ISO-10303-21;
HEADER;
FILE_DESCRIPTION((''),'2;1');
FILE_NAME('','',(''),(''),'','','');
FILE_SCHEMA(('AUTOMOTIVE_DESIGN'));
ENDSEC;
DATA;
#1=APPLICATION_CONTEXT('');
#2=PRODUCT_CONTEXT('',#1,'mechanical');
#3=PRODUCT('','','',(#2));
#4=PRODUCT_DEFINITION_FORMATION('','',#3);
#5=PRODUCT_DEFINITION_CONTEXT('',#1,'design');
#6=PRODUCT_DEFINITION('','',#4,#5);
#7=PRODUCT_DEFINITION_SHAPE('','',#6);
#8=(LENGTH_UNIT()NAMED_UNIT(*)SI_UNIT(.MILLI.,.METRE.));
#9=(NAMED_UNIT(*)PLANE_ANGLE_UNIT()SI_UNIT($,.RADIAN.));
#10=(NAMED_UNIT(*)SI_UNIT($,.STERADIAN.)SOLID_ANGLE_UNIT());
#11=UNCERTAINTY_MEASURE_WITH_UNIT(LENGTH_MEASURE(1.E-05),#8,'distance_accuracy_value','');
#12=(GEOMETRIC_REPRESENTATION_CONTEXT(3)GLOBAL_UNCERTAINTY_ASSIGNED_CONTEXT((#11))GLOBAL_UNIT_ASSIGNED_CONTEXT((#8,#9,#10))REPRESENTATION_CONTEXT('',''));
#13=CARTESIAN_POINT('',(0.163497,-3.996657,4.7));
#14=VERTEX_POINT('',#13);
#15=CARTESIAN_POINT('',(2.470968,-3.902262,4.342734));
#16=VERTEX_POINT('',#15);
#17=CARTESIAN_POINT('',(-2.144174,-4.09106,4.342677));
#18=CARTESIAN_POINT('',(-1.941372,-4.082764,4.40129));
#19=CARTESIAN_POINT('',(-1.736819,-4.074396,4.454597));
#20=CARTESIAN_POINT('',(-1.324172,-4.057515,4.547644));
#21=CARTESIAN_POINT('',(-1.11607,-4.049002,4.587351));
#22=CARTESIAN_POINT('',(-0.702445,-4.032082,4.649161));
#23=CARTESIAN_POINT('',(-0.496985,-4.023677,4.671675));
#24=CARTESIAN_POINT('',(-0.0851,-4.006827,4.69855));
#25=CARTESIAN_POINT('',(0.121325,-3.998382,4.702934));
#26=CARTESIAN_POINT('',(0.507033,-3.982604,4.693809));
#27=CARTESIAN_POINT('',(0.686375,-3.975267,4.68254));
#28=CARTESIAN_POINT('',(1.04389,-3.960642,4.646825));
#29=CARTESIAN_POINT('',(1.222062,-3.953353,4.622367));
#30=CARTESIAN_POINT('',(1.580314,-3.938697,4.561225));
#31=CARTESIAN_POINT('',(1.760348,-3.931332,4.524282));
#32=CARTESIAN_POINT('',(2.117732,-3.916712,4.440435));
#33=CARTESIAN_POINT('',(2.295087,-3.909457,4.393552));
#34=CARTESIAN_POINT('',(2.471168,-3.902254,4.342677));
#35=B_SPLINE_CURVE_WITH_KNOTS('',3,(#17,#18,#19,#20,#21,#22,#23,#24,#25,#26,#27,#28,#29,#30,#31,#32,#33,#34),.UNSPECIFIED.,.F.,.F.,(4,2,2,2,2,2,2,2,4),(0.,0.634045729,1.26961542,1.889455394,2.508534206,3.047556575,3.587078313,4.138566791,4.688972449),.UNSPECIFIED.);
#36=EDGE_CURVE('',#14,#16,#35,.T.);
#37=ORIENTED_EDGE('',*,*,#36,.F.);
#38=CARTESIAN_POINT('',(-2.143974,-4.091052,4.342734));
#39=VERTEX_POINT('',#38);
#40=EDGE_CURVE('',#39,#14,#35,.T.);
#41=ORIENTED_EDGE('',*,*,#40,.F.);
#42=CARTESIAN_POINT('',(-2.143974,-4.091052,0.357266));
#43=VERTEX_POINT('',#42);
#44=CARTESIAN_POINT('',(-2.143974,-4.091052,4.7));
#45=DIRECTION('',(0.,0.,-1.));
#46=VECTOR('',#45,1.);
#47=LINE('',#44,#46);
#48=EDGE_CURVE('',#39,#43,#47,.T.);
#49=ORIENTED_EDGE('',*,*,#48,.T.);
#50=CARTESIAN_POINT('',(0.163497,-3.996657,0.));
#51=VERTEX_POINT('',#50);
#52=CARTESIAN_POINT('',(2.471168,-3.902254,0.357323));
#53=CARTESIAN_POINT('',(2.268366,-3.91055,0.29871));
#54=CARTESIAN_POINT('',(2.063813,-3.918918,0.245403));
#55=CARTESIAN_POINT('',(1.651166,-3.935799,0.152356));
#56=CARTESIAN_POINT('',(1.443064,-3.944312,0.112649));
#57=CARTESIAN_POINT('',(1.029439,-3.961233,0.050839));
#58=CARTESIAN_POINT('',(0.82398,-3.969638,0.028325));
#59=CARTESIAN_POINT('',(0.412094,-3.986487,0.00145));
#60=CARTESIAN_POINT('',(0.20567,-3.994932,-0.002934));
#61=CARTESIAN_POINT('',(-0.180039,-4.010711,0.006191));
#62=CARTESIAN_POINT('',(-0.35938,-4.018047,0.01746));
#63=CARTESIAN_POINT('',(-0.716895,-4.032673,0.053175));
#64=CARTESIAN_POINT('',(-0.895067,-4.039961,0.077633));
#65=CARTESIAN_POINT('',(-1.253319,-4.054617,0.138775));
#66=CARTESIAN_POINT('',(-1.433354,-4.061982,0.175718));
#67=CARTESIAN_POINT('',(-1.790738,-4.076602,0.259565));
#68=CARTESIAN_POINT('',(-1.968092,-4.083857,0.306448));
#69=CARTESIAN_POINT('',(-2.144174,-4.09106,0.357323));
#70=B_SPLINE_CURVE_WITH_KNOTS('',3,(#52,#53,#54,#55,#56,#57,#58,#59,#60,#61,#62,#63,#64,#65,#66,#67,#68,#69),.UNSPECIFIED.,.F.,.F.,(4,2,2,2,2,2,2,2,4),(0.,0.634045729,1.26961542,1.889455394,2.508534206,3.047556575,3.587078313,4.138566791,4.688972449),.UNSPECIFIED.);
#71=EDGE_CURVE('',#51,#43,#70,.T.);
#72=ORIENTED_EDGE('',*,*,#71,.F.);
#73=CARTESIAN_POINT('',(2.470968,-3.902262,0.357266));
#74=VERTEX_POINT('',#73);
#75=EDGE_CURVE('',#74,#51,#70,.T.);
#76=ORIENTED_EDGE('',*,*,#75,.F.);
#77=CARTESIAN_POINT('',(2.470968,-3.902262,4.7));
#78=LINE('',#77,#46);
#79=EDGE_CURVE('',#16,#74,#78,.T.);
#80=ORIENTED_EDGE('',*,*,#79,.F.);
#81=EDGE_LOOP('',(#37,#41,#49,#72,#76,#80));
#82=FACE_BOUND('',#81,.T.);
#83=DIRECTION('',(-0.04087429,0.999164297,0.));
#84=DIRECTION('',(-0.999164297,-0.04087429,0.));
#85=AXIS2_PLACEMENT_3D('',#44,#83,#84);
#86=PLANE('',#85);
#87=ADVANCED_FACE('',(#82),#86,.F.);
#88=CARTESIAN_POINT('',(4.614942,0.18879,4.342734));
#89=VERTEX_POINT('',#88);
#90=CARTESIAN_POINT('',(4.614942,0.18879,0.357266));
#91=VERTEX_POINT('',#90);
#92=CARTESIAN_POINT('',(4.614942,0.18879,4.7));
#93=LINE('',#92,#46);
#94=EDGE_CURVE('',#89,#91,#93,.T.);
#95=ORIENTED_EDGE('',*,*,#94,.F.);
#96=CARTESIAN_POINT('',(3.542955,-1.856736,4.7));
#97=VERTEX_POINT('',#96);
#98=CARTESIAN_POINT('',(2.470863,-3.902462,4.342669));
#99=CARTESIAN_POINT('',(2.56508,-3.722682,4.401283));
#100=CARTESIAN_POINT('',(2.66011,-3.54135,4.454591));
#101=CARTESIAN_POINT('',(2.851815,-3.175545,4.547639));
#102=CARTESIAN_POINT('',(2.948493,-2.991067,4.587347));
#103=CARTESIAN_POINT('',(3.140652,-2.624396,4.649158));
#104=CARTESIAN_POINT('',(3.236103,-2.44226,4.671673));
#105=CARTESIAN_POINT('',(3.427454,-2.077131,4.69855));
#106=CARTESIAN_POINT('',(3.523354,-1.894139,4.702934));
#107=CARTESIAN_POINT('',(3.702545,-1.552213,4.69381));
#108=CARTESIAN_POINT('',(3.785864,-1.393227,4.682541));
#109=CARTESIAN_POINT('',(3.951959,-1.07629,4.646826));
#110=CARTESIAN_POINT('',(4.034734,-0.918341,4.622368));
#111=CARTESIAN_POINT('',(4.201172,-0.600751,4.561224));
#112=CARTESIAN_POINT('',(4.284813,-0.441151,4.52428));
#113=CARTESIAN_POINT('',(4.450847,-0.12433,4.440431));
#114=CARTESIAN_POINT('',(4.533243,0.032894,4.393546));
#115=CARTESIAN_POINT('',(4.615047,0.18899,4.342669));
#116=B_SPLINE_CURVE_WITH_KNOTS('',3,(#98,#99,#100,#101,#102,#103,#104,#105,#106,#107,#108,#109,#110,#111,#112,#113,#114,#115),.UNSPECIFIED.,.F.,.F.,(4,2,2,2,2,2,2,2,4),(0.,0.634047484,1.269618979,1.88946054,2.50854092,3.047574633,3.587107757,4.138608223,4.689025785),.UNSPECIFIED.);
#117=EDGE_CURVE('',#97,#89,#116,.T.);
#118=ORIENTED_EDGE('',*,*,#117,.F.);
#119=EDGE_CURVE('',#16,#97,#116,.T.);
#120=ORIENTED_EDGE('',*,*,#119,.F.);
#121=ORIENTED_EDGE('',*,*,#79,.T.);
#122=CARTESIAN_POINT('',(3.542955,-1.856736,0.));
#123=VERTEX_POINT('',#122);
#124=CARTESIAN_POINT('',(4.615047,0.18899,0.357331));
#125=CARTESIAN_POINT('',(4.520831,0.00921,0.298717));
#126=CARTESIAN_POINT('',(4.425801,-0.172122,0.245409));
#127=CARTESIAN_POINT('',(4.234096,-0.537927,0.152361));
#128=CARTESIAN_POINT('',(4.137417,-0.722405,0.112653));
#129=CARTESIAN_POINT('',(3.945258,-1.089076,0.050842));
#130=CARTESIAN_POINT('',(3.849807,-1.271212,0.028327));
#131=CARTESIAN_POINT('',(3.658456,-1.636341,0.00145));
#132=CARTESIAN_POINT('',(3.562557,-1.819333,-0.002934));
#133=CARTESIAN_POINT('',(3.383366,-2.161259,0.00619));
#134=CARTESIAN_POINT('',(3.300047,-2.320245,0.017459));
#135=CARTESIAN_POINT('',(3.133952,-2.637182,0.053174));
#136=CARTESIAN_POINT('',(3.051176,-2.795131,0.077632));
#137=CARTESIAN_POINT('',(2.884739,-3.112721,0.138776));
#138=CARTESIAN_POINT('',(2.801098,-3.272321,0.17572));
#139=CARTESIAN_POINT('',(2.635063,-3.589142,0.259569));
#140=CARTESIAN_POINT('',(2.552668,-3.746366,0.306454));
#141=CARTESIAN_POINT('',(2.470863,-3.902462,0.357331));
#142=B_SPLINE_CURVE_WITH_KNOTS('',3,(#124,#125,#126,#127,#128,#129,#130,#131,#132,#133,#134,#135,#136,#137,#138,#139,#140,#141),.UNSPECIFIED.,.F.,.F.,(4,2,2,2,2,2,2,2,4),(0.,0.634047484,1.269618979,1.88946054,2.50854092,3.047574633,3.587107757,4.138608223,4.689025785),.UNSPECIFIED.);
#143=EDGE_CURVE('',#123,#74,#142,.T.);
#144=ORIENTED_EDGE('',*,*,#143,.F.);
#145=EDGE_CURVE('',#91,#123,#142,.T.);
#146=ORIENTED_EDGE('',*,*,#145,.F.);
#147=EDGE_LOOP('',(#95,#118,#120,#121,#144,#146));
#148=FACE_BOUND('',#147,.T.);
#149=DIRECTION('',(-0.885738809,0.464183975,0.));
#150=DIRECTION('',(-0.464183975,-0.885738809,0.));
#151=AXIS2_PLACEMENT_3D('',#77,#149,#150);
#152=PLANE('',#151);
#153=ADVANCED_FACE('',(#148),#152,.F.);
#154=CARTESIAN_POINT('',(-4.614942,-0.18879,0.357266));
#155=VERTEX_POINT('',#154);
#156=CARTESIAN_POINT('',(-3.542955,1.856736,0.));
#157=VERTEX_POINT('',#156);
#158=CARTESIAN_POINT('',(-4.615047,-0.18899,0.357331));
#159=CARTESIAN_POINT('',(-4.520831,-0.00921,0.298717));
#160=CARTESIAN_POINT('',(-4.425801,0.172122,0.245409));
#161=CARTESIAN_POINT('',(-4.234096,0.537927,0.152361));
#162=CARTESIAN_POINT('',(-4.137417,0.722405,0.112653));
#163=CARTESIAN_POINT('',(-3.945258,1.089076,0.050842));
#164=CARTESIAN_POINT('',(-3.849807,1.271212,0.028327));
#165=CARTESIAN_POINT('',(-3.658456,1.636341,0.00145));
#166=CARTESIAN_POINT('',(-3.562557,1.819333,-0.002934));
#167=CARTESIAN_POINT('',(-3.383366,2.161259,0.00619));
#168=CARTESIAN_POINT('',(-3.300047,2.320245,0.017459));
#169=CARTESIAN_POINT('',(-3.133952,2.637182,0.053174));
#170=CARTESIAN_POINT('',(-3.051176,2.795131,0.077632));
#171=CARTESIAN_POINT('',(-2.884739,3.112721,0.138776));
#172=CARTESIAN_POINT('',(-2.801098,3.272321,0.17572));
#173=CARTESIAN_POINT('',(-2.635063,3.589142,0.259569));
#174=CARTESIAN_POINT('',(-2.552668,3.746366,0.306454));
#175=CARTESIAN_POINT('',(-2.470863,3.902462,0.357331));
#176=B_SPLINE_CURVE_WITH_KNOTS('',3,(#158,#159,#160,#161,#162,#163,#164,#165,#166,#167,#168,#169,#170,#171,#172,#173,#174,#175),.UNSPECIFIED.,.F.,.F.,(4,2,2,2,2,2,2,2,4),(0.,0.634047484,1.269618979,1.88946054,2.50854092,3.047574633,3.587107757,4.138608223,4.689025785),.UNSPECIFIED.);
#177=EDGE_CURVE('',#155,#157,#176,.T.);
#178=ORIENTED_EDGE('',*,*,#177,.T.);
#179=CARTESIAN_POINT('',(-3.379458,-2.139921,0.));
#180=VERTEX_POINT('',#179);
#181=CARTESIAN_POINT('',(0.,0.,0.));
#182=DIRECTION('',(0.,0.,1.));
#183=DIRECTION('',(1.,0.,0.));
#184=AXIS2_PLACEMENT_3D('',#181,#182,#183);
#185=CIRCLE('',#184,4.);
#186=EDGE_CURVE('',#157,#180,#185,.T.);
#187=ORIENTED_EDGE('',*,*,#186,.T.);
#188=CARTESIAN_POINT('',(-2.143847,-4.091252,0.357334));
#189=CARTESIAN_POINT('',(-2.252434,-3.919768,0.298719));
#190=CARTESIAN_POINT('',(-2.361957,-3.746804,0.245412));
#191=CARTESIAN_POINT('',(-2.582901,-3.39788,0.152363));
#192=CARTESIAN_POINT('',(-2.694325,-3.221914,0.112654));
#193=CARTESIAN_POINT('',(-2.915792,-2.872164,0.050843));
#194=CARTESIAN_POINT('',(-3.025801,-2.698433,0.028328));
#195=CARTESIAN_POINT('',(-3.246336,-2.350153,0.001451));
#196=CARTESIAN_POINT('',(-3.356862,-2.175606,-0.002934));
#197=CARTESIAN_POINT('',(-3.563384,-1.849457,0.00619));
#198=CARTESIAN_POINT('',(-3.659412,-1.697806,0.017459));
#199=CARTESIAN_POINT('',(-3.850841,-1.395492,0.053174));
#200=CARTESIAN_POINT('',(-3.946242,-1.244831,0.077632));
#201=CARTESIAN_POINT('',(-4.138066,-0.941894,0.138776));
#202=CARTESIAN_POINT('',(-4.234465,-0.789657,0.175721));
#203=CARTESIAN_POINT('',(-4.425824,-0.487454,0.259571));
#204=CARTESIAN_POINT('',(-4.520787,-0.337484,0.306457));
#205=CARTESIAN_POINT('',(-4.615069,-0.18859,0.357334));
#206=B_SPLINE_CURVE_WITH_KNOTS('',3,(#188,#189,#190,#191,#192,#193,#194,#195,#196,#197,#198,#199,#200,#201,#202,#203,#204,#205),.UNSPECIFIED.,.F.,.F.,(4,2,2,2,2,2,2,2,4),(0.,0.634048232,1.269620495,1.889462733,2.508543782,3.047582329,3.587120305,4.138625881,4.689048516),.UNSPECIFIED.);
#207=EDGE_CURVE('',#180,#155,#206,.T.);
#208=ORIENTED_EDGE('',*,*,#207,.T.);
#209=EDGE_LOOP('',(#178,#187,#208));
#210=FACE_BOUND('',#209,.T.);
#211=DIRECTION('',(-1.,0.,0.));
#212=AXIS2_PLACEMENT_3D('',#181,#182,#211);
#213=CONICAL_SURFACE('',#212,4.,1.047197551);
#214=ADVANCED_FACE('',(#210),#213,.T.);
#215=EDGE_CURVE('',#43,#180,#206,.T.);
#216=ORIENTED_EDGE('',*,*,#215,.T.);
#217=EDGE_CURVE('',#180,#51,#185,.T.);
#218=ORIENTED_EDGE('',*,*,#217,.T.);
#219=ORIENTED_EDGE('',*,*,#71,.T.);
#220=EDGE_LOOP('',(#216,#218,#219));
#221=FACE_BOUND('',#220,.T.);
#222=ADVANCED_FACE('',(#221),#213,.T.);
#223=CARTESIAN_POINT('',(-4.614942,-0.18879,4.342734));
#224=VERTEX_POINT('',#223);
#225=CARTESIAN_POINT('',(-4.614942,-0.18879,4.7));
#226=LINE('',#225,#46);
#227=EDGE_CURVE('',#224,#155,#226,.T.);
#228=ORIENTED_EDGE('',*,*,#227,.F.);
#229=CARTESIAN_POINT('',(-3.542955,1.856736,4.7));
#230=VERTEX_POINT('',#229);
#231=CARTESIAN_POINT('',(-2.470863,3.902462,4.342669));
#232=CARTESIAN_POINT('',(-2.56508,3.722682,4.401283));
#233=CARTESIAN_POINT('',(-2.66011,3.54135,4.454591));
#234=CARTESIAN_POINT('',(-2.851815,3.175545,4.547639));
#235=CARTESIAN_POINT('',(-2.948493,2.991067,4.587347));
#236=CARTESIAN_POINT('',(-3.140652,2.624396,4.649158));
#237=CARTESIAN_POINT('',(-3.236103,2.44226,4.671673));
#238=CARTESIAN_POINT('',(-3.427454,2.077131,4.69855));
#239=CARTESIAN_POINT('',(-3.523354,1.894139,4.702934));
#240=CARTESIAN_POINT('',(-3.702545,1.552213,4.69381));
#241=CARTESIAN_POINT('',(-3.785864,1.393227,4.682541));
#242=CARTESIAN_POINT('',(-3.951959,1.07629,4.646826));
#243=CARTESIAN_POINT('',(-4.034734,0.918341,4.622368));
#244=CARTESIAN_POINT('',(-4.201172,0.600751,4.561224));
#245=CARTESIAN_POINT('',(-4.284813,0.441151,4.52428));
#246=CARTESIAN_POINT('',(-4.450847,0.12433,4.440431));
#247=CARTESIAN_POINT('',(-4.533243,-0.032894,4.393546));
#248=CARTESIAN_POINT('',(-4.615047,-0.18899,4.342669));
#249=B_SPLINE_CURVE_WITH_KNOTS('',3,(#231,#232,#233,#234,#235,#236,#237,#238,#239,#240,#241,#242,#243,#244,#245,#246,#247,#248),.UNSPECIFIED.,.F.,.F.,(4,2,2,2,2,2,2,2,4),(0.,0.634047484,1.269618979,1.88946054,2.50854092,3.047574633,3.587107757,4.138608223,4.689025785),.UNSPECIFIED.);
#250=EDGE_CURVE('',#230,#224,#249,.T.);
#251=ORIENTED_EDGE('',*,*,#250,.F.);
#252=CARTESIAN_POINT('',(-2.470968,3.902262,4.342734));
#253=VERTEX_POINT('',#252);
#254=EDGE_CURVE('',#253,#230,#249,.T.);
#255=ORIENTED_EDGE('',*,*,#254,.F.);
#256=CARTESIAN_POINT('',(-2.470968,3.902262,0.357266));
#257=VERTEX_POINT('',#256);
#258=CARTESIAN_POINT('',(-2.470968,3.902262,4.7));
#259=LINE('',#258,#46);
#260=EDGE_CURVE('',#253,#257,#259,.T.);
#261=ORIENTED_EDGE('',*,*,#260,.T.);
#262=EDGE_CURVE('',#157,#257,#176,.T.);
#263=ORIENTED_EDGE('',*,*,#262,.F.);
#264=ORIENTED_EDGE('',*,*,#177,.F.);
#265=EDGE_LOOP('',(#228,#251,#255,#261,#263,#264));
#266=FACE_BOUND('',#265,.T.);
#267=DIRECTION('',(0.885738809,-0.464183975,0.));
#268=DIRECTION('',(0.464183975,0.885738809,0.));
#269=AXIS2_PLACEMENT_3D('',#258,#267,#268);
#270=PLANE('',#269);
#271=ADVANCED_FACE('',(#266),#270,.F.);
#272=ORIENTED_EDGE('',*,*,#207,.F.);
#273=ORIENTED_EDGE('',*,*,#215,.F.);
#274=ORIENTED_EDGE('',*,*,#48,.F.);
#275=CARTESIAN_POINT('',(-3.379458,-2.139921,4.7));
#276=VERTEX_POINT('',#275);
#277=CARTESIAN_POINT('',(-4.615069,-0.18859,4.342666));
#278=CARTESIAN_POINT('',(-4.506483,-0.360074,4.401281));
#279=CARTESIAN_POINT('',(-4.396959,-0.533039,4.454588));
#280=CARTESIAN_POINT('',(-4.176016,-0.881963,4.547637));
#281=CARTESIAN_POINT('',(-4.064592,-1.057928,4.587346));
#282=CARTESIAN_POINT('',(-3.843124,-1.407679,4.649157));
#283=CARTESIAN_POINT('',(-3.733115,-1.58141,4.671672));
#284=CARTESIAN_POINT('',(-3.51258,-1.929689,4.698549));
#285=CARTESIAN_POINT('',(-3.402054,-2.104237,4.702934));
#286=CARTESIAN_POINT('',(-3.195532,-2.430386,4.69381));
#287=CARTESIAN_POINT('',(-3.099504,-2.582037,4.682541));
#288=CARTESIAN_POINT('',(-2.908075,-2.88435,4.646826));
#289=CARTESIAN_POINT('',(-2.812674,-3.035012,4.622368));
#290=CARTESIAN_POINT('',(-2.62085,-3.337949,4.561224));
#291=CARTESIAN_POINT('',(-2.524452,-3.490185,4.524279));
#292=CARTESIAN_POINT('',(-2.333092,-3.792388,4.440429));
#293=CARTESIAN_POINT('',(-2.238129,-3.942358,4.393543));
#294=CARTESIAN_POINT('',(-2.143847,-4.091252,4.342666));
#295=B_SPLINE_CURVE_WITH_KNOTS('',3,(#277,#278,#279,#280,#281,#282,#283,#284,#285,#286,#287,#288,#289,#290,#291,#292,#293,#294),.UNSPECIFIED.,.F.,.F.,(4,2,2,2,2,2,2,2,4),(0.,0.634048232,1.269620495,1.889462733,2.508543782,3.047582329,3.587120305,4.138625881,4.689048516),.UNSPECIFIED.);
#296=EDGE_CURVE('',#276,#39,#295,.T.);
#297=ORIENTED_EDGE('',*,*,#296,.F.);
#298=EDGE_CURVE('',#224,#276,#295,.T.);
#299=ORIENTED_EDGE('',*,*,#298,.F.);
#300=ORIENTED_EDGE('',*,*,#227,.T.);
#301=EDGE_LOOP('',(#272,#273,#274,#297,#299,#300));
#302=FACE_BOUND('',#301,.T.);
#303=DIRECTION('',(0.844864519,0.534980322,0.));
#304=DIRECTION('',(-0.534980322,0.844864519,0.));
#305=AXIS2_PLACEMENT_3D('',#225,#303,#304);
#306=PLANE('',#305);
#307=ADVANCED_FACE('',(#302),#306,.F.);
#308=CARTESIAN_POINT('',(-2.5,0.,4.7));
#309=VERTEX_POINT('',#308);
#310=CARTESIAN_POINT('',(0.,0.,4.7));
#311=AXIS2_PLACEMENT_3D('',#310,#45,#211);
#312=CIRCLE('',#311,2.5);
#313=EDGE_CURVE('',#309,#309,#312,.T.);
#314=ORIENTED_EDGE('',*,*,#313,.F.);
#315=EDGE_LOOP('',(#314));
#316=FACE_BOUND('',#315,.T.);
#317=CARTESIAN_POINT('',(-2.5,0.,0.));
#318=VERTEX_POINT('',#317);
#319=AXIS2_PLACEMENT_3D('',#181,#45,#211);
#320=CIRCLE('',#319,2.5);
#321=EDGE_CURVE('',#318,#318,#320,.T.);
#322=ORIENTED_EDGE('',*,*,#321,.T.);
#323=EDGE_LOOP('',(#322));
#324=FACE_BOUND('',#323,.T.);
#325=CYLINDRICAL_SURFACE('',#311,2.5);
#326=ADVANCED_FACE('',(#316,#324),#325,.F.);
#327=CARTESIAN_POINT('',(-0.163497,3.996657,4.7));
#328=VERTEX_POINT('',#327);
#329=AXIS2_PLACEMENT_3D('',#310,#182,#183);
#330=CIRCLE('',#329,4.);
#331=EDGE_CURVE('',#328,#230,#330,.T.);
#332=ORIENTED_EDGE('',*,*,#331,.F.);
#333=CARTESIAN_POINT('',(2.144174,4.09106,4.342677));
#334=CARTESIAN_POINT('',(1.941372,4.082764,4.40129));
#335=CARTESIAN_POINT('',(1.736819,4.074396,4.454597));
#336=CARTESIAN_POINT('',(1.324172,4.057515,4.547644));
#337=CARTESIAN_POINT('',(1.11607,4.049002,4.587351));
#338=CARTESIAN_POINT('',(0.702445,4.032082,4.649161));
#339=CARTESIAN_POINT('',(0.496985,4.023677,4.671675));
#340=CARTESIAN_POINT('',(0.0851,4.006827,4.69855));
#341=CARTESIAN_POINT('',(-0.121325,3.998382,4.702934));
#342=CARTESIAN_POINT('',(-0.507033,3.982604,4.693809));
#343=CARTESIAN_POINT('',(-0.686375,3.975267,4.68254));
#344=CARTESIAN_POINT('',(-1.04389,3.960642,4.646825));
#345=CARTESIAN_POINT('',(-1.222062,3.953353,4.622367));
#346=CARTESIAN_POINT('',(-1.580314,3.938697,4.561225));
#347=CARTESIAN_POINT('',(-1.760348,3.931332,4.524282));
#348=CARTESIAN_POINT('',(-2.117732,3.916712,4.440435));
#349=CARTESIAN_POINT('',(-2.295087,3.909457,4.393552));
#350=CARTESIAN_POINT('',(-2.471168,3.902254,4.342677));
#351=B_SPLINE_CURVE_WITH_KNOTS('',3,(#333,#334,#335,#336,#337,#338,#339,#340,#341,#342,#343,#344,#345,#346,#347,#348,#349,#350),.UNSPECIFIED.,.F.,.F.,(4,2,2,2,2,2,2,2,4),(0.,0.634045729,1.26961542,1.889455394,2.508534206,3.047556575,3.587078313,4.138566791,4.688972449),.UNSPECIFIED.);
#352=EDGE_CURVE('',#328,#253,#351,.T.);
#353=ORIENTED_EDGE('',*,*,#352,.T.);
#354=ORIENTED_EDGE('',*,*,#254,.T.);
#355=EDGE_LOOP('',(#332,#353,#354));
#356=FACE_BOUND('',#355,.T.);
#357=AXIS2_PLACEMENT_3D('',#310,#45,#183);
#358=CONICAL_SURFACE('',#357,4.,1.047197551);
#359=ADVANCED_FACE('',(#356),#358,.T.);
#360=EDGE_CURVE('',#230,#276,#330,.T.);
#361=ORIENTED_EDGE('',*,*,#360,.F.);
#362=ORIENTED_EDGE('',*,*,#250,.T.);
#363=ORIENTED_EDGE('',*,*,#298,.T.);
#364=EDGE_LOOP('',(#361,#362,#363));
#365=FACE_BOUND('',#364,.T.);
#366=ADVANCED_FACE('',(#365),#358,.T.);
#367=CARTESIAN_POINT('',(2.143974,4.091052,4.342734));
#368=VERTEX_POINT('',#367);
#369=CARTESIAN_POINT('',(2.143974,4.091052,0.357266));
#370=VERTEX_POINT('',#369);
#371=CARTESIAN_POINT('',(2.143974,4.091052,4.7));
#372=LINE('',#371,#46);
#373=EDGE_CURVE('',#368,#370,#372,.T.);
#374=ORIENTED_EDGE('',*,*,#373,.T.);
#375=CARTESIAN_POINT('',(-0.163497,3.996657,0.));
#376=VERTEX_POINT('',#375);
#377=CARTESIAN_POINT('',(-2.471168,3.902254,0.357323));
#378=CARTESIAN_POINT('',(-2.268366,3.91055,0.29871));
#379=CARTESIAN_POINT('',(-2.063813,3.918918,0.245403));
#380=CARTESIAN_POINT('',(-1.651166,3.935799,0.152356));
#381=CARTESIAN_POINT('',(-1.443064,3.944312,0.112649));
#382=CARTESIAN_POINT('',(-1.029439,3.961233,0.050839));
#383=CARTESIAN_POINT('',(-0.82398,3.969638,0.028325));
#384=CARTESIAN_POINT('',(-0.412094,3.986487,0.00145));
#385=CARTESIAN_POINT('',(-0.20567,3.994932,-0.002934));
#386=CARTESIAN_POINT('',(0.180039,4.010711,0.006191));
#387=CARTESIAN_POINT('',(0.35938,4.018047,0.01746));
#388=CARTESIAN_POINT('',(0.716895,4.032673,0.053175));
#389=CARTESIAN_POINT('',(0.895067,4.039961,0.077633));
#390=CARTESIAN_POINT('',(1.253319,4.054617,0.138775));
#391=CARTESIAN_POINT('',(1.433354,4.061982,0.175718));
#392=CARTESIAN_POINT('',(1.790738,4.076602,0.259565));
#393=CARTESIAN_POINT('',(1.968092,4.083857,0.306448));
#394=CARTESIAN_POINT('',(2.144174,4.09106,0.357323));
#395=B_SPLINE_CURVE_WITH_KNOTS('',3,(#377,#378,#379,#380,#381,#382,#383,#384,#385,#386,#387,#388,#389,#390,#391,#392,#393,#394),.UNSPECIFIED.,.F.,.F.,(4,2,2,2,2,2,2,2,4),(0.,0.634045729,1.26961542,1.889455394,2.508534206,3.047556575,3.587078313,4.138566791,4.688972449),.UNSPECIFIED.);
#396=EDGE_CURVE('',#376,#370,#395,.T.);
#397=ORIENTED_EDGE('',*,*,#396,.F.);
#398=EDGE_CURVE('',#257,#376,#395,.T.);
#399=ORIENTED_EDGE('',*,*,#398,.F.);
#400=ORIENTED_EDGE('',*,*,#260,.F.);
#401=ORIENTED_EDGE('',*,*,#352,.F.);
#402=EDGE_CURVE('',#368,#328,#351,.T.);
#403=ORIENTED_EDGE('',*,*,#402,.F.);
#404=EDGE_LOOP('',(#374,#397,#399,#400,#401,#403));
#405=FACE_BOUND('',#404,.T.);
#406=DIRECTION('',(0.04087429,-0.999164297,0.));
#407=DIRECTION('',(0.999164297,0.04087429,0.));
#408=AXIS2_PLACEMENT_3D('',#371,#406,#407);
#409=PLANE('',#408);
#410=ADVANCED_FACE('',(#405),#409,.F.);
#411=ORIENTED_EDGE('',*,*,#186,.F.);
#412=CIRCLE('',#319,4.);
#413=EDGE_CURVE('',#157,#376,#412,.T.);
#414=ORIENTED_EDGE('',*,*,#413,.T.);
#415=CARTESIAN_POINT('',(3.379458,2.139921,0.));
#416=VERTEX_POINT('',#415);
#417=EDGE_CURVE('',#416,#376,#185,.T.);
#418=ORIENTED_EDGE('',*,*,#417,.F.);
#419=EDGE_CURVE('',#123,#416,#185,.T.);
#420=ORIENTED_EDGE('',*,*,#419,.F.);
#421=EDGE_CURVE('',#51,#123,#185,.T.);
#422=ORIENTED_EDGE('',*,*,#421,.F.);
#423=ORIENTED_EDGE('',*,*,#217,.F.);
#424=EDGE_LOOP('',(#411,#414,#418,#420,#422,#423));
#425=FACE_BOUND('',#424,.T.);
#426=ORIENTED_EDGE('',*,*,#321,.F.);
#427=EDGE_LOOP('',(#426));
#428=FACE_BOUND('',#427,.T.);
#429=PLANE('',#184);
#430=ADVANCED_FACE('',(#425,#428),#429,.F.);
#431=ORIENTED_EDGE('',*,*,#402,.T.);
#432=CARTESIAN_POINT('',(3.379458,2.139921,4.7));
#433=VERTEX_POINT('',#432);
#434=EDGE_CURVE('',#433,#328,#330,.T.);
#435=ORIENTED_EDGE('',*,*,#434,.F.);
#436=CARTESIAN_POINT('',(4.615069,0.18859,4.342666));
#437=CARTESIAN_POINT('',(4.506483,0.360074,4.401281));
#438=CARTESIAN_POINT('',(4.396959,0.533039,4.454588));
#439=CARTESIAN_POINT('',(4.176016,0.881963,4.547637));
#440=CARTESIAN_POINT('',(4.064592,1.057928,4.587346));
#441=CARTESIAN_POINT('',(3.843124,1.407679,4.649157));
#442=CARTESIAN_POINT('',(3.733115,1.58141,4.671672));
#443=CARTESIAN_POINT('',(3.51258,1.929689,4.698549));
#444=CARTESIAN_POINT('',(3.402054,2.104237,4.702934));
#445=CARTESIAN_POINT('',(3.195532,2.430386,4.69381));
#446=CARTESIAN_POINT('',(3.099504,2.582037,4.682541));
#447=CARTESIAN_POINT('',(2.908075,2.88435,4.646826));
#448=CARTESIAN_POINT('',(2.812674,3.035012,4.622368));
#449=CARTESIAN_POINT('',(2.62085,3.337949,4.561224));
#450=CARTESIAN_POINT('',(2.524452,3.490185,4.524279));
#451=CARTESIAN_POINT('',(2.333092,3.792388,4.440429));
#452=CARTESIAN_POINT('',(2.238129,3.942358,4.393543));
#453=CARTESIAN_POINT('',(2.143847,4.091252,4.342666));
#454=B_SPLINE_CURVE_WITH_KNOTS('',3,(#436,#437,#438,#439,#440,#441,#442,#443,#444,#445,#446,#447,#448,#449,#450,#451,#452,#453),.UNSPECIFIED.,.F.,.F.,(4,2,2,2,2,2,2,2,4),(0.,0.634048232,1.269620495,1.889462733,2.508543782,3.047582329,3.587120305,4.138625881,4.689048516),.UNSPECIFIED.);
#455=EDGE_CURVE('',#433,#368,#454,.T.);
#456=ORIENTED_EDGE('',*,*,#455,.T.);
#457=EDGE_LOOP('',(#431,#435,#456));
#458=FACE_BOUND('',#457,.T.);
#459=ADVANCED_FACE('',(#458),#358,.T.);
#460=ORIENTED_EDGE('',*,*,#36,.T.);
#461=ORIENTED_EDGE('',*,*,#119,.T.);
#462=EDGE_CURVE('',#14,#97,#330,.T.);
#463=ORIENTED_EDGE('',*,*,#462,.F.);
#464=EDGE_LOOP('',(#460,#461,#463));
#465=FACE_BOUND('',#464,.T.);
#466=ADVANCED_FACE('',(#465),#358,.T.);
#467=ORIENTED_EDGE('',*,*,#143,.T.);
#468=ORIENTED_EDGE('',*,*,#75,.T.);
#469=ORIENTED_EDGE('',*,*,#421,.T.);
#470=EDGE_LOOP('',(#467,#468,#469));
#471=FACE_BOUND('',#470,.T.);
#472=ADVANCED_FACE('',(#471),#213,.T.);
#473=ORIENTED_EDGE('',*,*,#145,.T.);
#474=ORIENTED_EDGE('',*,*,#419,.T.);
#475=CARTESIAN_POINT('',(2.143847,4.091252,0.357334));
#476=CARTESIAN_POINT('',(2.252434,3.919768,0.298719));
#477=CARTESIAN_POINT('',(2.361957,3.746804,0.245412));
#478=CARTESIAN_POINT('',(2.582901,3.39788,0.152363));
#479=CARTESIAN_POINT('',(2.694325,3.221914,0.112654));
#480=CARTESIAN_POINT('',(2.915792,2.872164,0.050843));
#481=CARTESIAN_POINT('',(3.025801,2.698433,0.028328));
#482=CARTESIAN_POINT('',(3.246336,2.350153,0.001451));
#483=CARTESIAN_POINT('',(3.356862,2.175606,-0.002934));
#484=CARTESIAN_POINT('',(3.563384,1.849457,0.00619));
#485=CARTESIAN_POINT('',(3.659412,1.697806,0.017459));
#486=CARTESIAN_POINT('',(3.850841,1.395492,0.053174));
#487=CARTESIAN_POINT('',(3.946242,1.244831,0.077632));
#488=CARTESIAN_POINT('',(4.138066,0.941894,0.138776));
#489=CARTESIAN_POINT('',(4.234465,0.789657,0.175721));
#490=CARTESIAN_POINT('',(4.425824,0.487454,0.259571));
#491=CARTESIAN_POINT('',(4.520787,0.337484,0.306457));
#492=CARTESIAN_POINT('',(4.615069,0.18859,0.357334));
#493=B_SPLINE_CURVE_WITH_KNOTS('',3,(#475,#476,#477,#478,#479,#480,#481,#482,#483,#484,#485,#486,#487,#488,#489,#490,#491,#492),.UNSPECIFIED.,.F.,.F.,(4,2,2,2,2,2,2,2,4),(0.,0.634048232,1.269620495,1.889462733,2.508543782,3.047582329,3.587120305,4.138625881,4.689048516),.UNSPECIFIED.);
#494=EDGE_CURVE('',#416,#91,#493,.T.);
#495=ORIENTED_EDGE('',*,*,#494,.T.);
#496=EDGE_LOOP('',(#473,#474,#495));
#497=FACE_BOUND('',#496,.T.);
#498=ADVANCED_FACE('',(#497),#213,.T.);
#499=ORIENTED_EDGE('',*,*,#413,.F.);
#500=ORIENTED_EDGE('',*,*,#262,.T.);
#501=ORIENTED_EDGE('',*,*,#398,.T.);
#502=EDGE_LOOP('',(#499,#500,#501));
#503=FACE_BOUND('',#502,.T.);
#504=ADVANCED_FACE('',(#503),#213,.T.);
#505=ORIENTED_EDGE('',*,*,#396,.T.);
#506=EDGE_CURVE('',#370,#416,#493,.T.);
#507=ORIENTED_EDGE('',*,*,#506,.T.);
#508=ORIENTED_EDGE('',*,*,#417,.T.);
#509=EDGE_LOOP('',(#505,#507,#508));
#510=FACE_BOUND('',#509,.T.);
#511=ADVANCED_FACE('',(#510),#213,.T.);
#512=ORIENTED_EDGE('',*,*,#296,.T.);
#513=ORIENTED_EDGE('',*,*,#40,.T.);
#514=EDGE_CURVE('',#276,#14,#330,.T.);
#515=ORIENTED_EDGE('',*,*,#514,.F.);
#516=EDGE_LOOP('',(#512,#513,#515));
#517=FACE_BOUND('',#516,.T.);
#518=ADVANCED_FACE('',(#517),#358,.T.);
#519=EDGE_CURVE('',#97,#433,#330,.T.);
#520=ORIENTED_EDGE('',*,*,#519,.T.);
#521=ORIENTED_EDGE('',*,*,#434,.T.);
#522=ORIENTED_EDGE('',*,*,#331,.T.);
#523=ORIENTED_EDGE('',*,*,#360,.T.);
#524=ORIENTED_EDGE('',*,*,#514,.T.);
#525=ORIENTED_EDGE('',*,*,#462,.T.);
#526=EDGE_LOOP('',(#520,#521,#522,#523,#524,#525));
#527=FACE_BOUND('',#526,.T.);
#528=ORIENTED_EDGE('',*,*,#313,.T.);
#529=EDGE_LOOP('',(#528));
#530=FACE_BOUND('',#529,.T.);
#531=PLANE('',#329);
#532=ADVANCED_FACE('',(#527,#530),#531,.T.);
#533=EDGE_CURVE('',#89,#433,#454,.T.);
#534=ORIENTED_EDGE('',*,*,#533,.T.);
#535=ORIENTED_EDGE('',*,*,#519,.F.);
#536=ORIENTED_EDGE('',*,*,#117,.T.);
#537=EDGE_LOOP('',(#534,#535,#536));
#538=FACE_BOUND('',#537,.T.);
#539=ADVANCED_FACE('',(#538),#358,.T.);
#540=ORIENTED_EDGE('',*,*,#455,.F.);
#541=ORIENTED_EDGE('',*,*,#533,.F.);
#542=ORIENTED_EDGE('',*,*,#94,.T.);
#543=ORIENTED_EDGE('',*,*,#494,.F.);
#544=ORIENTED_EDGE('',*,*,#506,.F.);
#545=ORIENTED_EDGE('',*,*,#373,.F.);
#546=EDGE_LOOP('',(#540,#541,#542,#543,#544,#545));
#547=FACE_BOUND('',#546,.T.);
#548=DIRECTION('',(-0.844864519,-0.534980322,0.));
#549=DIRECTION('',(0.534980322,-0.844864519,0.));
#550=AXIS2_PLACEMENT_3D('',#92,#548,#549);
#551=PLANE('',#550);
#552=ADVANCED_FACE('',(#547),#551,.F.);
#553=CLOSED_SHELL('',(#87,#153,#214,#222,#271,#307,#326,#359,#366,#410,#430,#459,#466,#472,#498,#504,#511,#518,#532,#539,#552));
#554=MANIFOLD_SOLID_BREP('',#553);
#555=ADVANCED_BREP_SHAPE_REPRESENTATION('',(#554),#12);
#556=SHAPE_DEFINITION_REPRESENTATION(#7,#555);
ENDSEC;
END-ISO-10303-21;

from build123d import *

# Parameters (mm, degrees)
BOSS_EXTRUDE1_DEPTH = 4.7
SKETCH2_OUTSIDE_W   = 30.152
SKETCH2_OUTSIDE_H   = 29.104
SKETCH2_OUTSIDE_R   = 4
CUT_EXTRUDE1_DEPTH  = 4.7
CUT_EXTRUDE1_DRAFT  = -60
SKETCH3_OUTSIDE_W   = 30.152
SKETCH3_OUTSIDE_H   = 29.104
SKETCH3_OUTSIDE_R   = 4
CUT_EXTRUDE2_DEPTH  = 4.7
CUT_EXTRUDE2_DRAFT  = -60
SKETCH4_R           = 2.5
CUT_EXTRUDE3_DEPTH  = 8.753992561


with BuildPart() as part:
    # Sketch1 → Boss-Extrude1 (new body)
    with BuildSketch(Plane.XY):
        Polygon((2.143973942, 4.091052318), (-2.470968265, 3.902262058), (-4.614942207, -0.18879026), (-2.143973942, -4.091052318), (2.470968265, -3.902262058), (4.614942207, 0.18879026), align=None)
    extrude(amount=BOSS_EXTRUDE1_DEPTH)


with BuildPart() as cut_extrude1_tool:
    # Sketch2 outside → Cut-Extrude1 (with draft: the straight prism first)
    with BuildSketch(Plane.XY.offset(4.7)):
        Rectangle(SKETCH2_OUTSIDE_W, SKETCH2_OUTSIDE_H)
        Circle(SKETCH2_OUTSIDE_R, mode=Mode.SUBTRACT)
    extrude(amount=-CUT_EXTRUDE1_DEPTH)
    # Cut-Extrude1: the draft: its side faces are tilted about the plane it starts from
    cut_extrude1_sides = [cut_extrude1_tool.faces().sort_by_distance(p)[0] for p in [
        (0, -14.552, 2.35),
        (15.076, 0, 2.35),
        (0, 14.552, 2.35),
        (-15.076, 0, 2.35),
        (-4, 0, 2.35),
    ]]
    draft(cut_extrude1_sides, Plane.XY.offset(4.7), CUT_EXTRUDE1_DRAFT)


with BuildPart() as part_1:
    add(part.part)

    # Cut-Extrude1: cut by cut_extrude1_tool
    add(cut_extrude1_tool.part, mode=Mode.SUBTRACT)


with BuildPart() as cut_extrude2_tool:
    # Sketch3 outside → Cut-Extrude2 (with draft: the straight prism first)
    with BuildSketch(Plane(origin=(0, 0, 0), x_dir=(-1, 0, 0), z_dir=(0, 0, -1))):
        Rectangle(SKETCH3_OUTSIDE_W, SKETCH3_OUTSIDE_H)
        Circle(SKETCH3_OUTSIDE_R, mode=Mode.SUBTRACT)
    extrude(amount=-CUT_EXTRUDE2_DEPTH)
    # Cut-Extrude2: the draft: its side faces are tilted about the plane it starts from
    cut_extrude2_sides = [cut_extrude2_tool.faces().sort_by_distance(p)[0] for p in [
        (0, -14.552, 2.35),
        (-15.076, 0, 2.35),
        (0, 14.552, 2.35),
        (15.076, 0, 2.35),
        (4, 0, 2.35),
    ]]
    draft(cut_extrude2_sides, Plane(origin=(0, 0, 0), x_dir=(-1, 0, 0), z_dir=(0, 0, -1)), CUT_EXTRUDE2_DRAFT)


with BuildPart() as part_2:
    add(part_1.part)

    # Cut-Extrude2: cut by cut_extrude2_tool
    add(cut_extrude2_tool.part, mode=Mode.SUBTRACT)

    # Sketch4 → Cut-Extrude3 (cut, through all)
    with BuildSketch(Plane(origin=(0, 0, 0), x_dir=(-1, 0, 0), z_dir=(0, 0, -1))):
        Circle(SKETCH4_R)
    extrude(amount=-CUT_EXTRUDE3_DEPTH, mode=Mode.SUBTRACT)


solid = part_2.part
